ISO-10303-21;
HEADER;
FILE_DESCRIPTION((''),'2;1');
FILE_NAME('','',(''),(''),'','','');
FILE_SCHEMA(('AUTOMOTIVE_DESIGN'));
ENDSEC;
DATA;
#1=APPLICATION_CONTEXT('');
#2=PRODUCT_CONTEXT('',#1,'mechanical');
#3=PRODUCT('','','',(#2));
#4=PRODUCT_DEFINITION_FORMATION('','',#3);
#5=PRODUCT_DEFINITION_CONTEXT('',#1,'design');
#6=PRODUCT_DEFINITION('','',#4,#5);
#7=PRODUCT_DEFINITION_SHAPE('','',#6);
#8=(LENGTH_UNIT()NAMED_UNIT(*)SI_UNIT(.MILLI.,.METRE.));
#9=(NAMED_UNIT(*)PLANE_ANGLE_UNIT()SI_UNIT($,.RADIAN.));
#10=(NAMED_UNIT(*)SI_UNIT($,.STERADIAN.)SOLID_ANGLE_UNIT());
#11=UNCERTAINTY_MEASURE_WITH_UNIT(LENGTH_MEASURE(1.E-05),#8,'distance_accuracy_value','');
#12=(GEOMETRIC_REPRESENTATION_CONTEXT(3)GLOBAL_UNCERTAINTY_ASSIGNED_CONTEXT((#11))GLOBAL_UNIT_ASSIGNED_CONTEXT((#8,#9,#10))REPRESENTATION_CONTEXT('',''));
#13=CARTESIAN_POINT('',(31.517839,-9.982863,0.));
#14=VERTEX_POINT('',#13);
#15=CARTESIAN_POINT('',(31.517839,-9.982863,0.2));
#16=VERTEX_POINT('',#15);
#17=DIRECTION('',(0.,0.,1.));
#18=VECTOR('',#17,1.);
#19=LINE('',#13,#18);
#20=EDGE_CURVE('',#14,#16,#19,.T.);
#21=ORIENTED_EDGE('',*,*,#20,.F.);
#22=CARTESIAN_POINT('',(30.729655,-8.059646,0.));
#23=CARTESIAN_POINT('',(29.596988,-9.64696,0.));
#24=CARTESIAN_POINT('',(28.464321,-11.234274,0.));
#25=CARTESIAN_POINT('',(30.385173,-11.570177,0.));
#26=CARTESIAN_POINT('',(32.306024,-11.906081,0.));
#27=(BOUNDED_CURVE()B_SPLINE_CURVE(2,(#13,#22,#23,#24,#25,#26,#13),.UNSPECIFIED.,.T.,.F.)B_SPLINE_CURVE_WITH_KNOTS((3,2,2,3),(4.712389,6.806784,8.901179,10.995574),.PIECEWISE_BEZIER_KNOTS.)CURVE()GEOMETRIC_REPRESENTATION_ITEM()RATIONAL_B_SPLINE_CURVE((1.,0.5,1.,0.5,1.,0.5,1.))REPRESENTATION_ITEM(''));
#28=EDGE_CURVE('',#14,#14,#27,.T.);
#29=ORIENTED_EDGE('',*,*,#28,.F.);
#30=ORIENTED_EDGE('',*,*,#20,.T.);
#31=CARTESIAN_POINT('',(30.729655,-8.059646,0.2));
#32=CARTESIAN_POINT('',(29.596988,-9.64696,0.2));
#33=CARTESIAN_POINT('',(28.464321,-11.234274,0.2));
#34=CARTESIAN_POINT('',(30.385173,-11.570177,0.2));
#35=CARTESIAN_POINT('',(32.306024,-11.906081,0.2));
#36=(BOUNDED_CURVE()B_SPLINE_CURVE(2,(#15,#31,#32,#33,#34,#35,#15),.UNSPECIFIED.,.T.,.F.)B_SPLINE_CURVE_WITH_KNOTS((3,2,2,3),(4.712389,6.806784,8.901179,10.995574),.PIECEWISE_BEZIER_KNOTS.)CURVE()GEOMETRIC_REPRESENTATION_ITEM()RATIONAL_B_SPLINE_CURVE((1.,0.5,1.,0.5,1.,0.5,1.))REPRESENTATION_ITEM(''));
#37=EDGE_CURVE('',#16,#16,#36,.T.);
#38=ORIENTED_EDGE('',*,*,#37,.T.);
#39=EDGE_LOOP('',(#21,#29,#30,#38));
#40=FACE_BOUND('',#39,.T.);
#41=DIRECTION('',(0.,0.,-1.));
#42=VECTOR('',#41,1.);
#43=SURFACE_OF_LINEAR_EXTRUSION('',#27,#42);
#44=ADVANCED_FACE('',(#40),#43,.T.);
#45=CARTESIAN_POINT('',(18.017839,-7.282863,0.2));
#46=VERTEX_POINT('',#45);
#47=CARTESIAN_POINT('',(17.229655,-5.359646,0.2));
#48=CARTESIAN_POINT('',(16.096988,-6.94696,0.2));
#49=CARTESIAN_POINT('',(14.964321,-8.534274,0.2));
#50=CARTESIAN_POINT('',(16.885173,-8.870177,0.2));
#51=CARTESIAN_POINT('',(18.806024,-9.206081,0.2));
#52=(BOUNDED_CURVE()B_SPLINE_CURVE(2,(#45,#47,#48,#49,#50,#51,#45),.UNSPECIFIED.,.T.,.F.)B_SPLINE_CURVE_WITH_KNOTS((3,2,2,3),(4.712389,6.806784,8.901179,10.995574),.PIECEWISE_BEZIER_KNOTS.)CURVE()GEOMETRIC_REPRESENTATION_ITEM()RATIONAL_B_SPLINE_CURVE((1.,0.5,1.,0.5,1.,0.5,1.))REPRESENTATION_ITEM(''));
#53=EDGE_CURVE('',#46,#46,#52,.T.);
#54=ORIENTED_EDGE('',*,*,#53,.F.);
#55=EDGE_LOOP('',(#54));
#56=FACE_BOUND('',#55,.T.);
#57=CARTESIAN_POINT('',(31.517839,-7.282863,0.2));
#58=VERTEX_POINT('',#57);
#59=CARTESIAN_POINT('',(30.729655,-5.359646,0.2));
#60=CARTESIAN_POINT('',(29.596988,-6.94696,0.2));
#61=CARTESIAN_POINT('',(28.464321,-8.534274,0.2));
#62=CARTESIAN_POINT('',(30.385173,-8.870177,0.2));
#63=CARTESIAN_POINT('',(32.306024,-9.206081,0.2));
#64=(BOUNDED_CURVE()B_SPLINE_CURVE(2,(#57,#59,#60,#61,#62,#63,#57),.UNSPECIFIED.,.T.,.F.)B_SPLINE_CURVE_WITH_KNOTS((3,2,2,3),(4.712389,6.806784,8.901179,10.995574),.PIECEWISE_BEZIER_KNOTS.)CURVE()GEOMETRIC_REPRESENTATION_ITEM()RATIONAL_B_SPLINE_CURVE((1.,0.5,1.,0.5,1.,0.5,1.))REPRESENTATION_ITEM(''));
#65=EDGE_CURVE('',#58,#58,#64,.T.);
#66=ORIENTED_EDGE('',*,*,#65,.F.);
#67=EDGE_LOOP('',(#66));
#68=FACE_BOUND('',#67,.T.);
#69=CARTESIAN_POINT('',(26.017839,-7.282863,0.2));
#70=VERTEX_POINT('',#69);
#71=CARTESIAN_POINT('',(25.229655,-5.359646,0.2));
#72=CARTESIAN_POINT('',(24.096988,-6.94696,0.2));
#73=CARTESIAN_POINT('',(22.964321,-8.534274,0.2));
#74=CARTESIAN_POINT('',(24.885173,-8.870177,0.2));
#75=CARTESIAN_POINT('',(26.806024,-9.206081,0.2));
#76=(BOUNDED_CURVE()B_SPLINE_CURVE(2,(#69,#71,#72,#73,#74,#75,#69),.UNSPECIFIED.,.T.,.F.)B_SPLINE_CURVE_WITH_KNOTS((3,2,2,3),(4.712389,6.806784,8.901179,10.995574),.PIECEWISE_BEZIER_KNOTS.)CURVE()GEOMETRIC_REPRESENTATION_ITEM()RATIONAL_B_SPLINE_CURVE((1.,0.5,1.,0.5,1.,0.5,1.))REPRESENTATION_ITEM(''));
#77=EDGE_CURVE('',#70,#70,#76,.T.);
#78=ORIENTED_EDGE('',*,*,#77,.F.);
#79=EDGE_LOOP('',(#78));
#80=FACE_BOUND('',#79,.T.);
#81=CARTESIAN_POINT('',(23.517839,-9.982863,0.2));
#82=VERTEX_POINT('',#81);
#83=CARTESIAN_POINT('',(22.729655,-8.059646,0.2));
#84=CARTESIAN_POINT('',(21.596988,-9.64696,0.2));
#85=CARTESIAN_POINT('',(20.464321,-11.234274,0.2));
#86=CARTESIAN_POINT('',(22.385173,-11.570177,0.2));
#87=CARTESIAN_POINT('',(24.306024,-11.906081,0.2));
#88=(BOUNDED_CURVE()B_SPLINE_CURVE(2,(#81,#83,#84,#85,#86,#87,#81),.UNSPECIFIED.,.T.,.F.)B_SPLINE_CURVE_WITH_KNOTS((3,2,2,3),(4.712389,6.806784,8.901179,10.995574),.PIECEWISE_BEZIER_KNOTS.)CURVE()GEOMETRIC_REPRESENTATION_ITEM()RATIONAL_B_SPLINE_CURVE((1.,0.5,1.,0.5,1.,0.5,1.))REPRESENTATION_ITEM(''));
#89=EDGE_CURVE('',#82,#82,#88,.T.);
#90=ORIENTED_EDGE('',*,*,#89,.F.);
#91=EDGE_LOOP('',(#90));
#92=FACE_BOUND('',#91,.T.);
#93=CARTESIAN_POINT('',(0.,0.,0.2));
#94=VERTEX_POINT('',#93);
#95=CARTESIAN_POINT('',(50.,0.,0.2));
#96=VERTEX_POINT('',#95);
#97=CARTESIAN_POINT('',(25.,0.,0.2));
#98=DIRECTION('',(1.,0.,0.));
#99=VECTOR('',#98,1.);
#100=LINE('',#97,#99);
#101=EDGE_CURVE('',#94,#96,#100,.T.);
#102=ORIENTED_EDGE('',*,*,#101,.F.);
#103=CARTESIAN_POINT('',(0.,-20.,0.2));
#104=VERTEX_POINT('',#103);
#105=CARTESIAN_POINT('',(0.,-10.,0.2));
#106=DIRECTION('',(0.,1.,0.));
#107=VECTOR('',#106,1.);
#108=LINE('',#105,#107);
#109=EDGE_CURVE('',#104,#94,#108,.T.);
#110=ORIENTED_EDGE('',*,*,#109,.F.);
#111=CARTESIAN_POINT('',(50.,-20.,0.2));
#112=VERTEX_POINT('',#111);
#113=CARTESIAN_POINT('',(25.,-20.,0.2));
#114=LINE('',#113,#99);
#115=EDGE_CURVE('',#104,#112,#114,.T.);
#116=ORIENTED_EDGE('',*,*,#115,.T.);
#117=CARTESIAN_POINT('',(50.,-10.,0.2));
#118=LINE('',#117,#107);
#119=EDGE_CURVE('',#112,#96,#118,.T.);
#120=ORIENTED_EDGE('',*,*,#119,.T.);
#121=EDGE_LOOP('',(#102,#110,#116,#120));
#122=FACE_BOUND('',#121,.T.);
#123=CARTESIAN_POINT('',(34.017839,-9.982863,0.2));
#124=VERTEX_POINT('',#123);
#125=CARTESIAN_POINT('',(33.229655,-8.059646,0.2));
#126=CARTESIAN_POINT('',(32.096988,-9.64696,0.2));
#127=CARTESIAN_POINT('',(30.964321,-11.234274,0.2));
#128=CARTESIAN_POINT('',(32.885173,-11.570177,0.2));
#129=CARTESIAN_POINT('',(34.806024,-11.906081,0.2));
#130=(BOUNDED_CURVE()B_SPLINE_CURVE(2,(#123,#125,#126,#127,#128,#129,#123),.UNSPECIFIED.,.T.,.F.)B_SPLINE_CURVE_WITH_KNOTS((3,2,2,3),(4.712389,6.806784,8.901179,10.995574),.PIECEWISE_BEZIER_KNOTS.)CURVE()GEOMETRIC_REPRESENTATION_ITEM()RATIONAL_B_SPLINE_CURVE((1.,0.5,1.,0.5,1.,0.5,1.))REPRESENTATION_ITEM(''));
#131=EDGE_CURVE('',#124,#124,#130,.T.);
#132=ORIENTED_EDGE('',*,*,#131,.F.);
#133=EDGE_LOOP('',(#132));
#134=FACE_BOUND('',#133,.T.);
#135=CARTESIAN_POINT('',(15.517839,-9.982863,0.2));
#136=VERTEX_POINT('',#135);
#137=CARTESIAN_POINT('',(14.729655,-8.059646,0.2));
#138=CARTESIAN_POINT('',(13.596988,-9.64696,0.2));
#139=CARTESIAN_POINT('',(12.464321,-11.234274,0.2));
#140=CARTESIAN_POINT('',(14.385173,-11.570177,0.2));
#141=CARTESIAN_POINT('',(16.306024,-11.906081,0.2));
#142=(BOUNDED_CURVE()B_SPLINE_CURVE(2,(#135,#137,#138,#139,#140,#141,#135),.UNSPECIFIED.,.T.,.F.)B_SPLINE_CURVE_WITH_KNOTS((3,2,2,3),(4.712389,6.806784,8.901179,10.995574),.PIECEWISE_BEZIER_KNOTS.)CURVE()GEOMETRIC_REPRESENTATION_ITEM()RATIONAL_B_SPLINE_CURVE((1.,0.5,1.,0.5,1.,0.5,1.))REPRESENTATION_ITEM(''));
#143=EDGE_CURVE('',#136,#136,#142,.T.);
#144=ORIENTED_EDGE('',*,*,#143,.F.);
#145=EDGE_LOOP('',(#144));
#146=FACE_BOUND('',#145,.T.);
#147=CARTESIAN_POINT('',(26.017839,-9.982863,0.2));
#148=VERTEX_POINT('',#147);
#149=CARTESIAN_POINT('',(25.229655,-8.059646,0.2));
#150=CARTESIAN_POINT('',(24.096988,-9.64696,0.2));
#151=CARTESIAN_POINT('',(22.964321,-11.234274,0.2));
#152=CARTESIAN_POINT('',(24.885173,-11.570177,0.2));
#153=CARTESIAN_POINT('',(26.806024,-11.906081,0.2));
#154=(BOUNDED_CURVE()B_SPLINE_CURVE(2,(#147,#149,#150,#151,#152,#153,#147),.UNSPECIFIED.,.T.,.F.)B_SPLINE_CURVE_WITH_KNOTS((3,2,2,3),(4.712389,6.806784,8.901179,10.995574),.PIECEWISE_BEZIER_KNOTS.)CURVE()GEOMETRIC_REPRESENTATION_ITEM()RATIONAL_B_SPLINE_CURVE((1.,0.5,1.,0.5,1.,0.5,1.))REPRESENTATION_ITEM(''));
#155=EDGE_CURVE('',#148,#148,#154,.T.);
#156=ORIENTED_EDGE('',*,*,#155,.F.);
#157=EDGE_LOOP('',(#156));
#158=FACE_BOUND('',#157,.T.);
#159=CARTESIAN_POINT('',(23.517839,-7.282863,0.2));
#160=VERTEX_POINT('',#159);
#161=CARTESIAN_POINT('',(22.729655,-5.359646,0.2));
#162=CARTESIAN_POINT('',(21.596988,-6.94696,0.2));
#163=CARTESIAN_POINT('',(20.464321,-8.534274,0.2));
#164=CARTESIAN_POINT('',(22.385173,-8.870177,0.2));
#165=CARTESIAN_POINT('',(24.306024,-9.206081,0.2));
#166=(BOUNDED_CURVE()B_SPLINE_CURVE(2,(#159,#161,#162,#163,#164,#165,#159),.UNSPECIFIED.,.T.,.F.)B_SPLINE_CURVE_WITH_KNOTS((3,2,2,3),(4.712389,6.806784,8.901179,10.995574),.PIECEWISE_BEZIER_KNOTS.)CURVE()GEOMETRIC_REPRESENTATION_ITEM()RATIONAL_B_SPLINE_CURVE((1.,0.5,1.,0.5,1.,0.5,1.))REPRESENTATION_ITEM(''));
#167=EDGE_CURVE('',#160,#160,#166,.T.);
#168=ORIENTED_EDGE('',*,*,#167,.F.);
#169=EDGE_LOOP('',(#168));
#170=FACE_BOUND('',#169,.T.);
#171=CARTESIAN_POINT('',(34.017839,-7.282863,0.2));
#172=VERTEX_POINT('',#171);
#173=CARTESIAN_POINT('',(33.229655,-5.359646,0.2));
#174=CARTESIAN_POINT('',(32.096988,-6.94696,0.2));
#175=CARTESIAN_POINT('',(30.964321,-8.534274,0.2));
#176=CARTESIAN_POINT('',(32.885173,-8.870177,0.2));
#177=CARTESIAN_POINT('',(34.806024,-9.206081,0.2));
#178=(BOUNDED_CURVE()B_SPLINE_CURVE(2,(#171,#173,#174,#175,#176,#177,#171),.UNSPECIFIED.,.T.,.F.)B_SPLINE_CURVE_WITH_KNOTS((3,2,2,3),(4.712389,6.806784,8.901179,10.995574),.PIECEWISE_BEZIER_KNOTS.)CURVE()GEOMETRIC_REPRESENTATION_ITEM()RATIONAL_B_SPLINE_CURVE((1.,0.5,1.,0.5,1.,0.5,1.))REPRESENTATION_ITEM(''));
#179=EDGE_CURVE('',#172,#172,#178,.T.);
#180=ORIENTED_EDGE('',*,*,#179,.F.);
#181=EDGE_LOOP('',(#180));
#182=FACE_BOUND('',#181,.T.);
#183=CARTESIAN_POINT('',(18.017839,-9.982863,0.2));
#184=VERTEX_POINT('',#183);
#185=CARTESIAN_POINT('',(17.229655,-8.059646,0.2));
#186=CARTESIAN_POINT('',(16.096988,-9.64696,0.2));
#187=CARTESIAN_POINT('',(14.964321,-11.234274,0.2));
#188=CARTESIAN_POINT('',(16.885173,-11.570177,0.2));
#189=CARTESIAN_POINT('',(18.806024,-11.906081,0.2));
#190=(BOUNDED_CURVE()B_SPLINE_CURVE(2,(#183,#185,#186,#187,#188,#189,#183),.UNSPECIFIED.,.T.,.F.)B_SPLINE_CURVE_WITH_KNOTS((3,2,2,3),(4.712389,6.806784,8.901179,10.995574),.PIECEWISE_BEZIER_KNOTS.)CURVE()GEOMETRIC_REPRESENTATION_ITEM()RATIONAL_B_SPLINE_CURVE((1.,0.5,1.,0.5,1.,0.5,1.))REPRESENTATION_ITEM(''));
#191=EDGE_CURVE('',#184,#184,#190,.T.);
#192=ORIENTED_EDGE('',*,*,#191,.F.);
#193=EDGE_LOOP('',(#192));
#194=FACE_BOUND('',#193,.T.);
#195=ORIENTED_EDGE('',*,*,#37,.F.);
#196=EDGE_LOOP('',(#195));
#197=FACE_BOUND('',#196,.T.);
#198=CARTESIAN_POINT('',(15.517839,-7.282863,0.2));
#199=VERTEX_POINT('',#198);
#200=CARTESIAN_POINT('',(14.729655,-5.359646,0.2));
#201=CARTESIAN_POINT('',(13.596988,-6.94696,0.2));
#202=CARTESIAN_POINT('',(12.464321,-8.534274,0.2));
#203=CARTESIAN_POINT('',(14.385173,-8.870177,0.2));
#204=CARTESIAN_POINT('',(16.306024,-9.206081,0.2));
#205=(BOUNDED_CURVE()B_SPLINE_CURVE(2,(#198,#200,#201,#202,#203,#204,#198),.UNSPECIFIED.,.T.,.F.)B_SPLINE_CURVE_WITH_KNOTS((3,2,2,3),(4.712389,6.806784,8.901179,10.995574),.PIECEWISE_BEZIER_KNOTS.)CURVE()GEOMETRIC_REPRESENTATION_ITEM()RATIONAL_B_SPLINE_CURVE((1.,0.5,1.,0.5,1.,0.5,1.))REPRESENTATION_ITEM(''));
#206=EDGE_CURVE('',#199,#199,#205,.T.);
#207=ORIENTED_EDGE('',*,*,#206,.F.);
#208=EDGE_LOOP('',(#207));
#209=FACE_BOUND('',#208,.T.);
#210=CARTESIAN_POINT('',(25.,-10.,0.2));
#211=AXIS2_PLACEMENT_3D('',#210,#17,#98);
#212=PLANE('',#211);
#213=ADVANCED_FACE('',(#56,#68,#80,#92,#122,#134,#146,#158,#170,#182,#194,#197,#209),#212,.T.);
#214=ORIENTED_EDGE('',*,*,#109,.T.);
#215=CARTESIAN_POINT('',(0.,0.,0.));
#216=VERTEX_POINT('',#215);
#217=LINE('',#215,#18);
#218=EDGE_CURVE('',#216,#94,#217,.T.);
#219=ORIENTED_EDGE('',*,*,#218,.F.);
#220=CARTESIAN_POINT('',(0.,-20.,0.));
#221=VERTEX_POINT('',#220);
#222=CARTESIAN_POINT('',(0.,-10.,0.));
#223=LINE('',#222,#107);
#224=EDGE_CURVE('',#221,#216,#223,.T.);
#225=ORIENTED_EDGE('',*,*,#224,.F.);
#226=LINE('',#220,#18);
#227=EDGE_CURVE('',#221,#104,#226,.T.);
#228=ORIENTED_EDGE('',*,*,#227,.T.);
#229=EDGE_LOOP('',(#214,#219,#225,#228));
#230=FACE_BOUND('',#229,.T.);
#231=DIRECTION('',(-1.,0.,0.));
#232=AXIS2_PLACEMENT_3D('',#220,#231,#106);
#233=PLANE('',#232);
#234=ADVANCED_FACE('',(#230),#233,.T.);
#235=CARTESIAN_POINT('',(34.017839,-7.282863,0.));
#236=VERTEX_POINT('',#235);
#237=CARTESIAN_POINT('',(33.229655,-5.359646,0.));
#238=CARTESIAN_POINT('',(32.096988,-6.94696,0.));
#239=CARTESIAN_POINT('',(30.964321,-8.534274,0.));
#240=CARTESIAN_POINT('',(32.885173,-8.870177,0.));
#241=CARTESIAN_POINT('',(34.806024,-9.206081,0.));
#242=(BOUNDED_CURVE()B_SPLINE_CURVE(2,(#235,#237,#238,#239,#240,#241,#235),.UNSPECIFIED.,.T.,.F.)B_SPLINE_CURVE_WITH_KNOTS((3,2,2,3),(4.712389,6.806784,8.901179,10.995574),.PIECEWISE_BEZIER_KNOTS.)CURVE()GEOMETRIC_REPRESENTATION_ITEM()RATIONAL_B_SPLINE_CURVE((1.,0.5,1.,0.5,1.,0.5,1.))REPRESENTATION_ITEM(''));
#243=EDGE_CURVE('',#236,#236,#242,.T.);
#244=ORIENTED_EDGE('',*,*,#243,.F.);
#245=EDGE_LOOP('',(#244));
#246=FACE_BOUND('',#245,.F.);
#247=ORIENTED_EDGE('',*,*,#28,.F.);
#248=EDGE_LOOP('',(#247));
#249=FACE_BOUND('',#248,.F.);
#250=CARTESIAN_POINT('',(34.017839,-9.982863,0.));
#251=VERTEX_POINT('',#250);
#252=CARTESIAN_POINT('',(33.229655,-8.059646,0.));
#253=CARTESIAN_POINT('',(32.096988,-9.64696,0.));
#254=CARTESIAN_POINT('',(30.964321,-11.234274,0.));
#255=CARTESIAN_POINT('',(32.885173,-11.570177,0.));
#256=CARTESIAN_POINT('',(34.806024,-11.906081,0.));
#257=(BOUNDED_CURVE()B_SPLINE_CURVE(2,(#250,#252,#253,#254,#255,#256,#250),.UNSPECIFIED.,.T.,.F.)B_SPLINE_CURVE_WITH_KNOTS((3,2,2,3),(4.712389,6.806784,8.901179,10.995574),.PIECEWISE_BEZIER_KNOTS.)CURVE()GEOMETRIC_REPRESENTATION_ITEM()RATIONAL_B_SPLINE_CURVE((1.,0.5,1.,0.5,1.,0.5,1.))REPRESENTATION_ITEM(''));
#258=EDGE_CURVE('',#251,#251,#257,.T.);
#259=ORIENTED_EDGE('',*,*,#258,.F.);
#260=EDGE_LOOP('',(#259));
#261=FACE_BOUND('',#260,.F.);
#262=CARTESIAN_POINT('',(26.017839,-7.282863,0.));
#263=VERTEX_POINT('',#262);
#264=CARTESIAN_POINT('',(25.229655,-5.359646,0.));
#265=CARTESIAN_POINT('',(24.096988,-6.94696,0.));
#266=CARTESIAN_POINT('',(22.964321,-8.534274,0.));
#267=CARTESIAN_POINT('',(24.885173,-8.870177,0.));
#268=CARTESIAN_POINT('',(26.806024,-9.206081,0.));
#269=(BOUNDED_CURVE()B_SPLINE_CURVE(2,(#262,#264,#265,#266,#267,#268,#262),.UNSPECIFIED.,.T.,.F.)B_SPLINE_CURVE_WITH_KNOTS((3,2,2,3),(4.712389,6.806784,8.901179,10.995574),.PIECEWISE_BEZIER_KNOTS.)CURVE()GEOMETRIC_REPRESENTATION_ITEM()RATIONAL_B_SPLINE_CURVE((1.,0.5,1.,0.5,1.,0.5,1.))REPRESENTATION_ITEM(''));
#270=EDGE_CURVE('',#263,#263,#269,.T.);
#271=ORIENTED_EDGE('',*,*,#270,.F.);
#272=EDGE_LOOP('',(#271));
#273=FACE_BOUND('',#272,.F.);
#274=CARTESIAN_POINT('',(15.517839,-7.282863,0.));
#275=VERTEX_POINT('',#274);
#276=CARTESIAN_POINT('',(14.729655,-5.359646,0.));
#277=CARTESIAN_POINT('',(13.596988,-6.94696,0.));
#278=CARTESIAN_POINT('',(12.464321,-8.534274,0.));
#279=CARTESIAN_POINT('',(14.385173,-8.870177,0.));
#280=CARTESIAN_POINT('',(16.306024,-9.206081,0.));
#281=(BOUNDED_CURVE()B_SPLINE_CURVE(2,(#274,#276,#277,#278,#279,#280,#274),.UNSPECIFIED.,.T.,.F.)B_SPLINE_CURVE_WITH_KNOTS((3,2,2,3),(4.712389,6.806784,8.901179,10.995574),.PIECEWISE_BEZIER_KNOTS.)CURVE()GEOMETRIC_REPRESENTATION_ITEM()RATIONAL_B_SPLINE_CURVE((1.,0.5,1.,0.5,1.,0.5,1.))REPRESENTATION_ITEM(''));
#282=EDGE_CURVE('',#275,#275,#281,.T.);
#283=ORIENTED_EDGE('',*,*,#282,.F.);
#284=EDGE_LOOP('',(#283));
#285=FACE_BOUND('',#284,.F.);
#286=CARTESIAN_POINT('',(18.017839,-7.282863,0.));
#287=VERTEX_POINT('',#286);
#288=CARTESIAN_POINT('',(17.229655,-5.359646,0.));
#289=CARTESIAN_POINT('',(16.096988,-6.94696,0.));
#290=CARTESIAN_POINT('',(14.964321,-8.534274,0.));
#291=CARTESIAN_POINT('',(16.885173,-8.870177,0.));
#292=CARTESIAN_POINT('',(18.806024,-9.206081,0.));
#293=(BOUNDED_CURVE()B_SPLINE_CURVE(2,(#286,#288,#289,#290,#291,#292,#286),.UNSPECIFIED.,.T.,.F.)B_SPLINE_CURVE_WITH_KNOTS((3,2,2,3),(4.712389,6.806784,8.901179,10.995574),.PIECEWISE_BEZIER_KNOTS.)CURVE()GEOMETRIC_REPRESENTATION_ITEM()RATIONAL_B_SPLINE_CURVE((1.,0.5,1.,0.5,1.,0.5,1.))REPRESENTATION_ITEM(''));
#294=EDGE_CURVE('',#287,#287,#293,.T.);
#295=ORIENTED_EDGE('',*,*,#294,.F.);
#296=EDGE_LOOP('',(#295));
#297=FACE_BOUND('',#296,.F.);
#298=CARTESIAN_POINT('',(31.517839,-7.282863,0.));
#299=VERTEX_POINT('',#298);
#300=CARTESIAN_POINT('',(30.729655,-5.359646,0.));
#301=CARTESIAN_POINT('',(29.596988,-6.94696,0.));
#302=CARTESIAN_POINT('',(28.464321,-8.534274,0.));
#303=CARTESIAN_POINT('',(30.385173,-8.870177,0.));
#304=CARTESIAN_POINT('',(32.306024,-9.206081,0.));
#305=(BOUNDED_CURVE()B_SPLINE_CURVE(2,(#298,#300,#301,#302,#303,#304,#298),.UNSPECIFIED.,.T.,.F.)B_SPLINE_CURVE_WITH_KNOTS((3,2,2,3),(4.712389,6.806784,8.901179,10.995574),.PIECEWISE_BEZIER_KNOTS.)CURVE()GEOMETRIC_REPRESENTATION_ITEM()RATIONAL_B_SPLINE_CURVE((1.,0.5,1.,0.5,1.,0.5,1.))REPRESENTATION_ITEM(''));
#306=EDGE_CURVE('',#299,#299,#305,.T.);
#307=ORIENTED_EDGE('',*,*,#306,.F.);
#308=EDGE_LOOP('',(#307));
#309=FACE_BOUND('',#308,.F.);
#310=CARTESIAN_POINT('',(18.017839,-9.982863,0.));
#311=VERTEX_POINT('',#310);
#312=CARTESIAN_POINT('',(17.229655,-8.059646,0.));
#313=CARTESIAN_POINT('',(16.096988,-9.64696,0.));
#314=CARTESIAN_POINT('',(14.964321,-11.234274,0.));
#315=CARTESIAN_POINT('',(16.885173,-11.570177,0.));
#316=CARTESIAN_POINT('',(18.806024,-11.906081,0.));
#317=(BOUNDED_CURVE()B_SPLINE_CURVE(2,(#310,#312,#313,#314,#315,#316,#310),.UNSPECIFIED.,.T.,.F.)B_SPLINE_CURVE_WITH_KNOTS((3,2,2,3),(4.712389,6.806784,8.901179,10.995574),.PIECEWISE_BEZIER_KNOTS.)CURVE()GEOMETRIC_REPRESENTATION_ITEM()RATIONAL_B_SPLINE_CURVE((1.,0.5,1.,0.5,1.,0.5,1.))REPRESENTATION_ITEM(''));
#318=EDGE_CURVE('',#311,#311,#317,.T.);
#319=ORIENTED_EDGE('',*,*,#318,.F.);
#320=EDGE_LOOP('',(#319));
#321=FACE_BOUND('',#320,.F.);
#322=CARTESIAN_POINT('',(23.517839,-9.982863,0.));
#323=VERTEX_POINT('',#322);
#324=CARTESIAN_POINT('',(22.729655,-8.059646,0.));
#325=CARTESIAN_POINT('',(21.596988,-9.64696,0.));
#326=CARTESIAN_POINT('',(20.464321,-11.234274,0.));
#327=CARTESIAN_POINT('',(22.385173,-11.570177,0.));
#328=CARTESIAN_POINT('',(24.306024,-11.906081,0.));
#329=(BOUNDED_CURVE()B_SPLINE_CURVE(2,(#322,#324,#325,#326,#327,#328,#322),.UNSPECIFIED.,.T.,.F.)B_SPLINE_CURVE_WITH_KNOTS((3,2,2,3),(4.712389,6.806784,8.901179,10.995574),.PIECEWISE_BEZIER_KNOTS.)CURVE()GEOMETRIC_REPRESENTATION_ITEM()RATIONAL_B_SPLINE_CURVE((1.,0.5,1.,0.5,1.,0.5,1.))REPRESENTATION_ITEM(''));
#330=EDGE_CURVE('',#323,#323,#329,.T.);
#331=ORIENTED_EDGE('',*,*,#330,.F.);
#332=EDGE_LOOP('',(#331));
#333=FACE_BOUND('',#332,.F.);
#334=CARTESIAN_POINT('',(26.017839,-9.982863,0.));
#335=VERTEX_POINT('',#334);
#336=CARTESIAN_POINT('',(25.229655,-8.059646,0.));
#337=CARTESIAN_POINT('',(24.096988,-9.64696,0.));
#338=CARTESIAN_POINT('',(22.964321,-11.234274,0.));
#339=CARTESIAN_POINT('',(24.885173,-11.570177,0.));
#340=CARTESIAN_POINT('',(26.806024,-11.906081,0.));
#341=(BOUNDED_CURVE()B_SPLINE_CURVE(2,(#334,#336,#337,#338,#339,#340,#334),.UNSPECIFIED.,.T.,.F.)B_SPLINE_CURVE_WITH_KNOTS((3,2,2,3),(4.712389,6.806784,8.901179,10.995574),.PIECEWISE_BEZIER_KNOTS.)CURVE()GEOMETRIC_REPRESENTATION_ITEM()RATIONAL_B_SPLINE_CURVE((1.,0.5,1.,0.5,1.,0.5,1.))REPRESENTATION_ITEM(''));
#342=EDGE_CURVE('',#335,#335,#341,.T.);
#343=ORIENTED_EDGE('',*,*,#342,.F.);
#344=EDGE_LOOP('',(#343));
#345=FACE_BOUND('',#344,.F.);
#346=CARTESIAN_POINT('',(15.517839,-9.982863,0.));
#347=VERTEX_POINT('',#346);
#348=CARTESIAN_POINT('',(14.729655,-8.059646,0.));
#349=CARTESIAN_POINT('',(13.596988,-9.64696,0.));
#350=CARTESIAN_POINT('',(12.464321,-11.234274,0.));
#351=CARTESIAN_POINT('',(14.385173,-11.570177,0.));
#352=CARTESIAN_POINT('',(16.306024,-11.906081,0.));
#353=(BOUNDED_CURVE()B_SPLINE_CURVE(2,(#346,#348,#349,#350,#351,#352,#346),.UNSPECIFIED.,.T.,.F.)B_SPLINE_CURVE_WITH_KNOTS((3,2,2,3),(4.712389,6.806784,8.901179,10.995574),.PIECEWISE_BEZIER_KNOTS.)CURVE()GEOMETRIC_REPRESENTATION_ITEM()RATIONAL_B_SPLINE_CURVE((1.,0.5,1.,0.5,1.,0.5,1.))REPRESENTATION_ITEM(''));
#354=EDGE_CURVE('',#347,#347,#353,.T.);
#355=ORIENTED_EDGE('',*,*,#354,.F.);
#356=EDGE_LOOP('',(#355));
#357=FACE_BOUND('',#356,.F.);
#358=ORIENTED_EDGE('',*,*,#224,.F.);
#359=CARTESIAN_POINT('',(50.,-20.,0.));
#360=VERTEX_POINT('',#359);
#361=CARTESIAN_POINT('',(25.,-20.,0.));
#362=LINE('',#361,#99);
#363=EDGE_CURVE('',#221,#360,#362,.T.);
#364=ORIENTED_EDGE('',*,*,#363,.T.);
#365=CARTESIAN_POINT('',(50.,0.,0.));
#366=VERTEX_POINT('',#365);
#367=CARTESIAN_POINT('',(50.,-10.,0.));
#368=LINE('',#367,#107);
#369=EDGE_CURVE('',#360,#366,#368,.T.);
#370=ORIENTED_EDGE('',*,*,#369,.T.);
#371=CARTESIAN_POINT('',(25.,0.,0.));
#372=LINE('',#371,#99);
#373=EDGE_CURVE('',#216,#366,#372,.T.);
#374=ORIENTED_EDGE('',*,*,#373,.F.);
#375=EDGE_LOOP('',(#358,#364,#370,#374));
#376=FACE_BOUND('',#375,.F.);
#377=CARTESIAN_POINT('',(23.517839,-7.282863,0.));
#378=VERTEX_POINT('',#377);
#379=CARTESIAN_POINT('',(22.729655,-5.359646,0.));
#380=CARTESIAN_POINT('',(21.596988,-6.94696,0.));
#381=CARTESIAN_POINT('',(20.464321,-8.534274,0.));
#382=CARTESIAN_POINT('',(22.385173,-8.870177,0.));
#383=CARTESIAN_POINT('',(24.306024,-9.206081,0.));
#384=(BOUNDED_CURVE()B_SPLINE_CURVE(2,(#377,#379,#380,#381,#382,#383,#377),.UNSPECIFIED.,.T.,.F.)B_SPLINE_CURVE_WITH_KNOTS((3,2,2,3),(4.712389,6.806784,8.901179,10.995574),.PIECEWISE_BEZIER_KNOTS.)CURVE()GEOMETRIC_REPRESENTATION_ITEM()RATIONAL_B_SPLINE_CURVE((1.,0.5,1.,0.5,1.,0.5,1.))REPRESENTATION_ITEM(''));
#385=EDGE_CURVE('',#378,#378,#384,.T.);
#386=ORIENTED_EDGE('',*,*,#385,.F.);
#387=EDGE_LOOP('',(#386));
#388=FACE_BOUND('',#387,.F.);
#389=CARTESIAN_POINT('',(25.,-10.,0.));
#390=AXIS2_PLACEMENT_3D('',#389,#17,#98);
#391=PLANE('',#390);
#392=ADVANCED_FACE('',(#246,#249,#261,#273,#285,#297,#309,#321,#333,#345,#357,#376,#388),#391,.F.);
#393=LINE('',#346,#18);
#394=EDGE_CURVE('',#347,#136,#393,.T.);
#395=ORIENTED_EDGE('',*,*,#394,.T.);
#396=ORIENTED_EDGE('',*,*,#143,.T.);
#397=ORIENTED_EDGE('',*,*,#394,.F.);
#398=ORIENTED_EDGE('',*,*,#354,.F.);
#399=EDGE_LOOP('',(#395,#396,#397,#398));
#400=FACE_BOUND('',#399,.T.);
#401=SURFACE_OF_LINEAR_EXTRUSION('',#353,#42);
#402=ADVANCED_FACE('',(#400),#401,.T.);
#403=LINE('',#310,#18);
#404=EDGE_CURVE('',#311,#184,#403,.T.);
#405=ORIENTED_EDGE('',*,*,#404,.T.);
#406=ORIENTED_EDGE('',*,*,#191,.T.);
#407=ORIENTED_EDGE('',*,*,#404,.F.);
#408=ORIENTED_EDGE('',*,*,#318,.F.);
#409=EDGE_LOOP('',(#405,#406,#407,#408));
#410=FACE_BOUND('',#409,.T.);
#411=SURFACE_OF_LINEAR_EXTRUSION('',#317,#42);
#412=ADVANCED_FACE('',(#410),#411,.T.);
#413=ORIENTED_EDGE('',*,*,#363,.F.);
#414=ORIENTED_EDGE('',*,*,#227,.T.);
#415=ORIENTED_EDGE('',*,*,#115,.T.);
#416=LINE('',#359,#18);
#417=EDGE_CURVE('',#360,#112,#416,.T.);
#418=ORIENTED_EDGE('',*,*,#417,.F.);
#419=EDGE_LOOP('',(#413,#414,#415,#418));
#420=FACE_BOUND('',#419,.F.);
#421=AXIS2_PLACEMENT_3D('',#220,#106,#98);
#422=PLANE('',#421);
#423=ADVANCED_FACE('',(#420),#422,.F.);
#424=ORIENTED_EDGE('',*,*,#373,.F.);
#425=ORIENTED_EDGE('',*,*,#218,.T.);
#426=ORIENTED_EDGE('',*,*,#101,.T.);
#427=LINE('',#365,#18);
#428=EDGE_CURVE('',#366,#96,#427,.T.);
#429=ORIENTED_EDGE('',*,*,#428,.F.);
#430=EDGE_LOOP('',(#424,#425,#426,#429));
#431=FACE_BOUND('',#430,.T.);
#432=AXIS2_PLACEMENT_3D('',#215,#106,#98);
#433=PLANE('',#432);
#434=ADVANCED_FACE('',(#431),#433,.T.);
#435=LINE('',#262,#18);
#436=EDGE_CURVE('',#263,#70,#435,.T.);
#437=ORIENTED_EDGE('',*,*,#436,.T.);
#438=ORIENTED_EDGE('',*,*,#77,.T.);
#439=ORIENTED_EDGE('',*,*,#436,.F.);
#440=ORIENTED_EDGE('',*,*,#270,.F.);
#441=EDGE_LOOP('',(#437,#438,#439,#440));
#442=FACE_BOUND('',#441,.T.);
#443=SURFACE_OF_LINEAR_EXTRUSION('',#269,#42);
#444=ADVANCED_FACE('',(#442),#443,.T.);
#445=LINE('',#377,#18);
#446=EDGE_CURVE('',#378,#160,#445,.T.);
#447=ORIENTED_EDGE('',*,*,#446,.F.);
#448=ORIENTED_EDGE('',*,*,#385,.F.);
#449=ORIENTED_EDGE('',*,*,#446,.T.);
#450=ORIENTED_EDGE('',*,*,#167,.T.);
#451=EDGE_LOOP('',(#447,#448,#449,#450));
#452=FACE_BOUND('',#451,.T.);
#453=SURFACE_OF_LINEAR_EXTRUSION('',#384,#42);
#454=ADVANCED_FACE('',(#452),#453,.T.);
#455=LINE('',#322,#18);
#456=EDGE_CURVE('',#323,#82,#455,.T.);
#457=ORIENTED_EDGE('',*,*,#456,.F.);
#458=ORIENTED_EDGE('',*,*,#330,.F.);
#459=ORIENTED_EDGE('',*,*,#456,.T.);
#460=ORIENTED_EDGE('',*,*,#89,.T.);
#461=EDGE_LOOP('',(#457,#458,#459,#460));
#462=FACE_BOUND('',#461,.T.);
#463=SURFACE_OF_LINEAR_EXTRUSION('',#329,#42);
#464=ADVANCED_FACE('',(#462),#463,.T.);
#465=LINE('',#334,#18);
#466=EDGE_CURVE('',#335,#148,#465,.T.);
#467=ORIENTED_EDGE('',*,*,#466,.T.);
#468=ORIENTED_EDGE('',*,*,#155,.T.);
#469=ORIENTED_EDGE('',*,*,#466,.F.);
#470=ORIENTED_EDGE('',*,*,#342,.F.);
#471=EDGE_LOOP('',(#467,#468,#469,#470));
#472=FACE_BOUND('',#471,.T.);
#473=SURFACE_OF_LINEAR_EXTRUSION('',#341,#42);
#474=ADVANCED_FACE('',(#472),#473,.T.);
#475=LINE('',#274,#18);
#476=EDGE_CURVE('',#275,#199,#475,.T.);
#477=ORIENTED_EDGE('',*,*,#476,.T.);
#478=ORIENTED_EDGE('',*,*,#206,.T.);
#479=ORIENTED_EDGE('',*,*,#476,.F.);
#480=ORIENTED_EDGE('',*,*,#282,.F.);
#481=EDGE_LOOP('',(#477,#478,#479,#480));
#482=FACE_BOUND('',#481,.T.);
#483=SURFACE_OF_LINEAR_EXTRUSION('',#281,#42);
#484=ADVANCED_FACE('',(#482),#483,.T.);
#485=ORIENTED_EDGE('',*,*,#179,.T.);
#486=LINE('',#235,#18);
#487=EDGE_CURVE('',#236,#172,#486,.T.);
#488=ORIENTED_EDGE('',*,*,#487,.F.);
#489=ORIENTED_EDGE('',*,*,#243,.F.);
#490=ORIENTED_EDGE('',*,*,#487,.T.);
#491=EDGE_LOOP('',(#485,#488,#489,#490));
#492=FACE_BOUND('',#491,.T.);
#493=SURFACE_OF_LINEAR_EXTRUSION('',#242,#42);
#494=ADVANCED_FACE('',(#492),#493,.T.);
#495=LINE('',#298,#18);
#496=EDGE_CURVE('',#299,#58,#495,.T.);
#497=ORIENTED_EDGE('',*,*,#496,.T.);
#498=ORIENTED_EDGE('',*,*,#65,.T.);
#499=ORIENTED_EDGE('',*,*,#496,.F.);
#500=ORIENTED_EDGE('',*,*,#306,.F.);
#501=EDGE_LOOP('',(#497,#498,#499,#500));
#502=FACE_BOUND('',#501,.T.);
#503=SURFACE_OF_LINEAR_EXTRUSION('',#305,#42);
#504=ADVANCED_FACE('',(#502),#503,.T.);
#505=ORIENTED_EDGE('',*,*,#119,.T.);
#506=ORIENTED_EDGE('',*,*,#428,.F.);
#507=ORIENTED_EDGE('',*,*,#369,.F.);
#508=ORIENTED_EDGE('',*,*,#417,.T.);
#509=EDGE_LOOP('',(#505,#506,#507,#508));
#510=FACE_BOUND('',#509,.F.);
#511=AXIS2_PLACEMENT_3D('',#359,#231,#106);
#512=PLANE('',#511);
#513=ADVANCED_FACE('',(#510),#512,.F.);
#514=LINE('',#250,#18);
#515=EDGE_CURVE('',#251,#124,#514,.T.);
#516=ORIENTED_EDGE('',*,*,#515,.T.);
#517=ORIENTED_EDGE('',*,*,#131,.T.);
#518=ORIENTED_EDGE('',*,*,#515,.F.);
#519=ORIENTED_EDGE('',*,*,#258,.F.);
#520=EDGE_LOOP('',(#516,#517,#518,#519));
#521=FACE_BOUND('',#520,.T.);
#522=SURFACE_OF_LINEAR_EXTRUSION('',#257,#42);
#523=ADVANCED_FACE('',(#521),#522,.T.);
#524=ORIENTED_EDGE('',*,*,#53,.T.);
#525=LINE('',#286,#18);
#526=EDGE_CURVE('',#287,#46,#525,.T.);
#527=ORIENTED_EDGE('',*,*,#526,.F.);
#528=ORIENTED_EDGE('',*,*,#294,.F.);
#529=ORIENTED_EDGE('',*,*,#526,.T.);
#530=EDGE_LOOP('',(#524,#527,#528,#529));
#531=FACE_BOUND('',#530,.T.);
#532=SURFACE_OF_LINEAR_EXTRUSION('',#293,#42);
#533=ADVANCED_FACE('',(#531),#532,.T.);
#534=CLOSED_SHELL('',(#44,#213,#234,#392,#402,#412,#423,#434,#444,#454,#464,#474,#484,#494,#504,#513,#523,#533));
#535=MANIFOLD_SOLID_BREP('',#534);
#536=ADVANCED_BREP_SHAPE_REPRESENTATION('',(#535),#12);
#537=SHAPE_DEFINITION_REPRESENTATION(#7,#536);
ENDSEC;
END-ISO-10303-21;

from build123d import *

# Parameters (mm, degrees)
F0_W     = 50
F0_H     = 20
F1_DEPTH = 0.2


with BuildPart() as f1:
    # F0 (on Top) → F1 (new body)
    with BuildSketch(Plane.XY):
        with Locations((25, -10)):
            Rectangle(F0_W, F0_H)
        with BuildLine():
            add(Edge.make_bspline(
                [(15.517839, -9.982863), (14.729655, -8.059646), (13.596988, -9.64696), (12.464321, -11.234274), (14.385173, -11.570177), (16.306024, -11.906081), (15.517839, -9.982863)],
                knots=[4.712389, 4.712389, 4.712389, 6.806784, 6.806784, 8.901179, 8.901179, 10.995574, 10.995574, 10.995574], degree=2, weights=[1, 0.5, 1, 0.5, 1, 0.5, 1]))
        make_face(mode=Mode.SUBTRACT)
        with BuildLine():
            add(Edge.make_bspline(
                [(18.017839, -9.982863), (17.229655, -8.059646), (16.096988, -9.64696), (14.964321, -11.234274), (16.885173, -11.570177), (18.806024, -11.906081), (18.017839, -9.982863)],
                knots=[4.712389, 4.712389, 4.712389, 6.806784, 6.806784, 8.901179, 8.901179, 10.995574, 10.995574, 10.995574], degree=2, weights=[1, 0.5, 1, 0.5, 1, 0.5, 1]))
        make_face(mode=Mode.SUBTRACT)
        with BuildLine():
            add(Edge.make_bspline(
                [(23.517839, -9.982863), (22.729655, -8.059646), (21.596988, -9.64696), (20.464321, -11.234274), (22.385173, -11.570177), (24.306024, -11.906081), (23.517839, -9.982863)],
                knots=[4.712389, 4.712389, 4.712389, 6.806784, 6.806784, 8.901179, 8.901179, 10.995574, 10.995574, 10.995574], degree=2, weights=[1, 0.5, 1, 0.5, 1, 0.5, 1]))
        make_face(mode=Mode.SUBTRACT)
        with BuildLine():
            add(Edge.make_bspline(
                [(26.017839, -9.982863), (25.229655, -8.059646), (24.096988, -9.64696), (22.964321, -11.234274), (24.885173, -11.570177), (26.806024, -11.906081), (26.017839, -9.982863)],
                knots=[4.712389, 4.712389, 4.712389, 6.806784, 6.806784, 8.901179, 8.901179, 10.995574, 10.995574, 10.995574], degree=2, weights=[1, 0.5, 1, 0.5, 1, 0.5, 1]))
        make_face(mode=Mode.SUBTRACT)
        with BuildLine():
            add(Edge.make_bspline(
                [(31.517839, -9.982863), (30.729655, -8.059646), (29.596988, -9.64696), (28.464321, -11.234274), (30.385173, -11.570177), (32.306024, -11.906081), (31.517839, -9.982863)],
                knots=[4.712389, 4.712389, 4.712389, 6.806784, 6.806784, 8.901179, 8.901179, 10.995574, 10.995574, 10.995574], degree=2, weights=[1, 0.5, 1, 0.5, 1, 0.5, 1]))
        make_face(mode=Mode.SUBTRACT)
        with BuildLine():
            add(Edge.make_bspline(
                [(34.017839, -9.982863), (33.229655, -8.059646), (32.096988, -9.64696), (30.964321, -11.234274), (32.885173, -11.570177), (34.806024, -11.906081), (34.017839, -9.982863)],
                knots=[4.712389, 4.712389, 4.712389, 6.806784, 6.806784, 8.901179, 8.901179, 10.995574, 10.995574, 10.995574], degree=2, weights=[1, 0.5, 1, 0.5, 1, 0.5, 1]))
        make_face(mode=Mode.SUBTRACT)
        with BuildLine():
            add(Edge.make_bspline(
                [(15.517839, -7.282863), (14.729655, -5.359646), (13.596988, -6.94696), (12.464321, -8.534274), (14.385173, -8.870177), (16.306024, -9.206081), (15.517839, -7.282863)],
                knots=[4.712389, 4.712389, 4.712389, 6.806784, 6.806784, 8.901179, 8.901179, 10.995574, 10.995574, 10.995574], degree=2, weights=[1, 0.5, 1, 0.5, 1, 0.5, 1]))
        make_face(mode=Mode.SUBTRACT)
        with BuildLine():
            add(Edge.make_bspline(
                [(18.017839, -7.282863), (17.229655, -5.359646), (16.096988, -6.94696), (14.964321, -8.534274), (16.885173, -8.870177), (18.806024, -9.206081), (18.017839, -7.282863)],
                knots=[4.712389, 4.712389, 4.712389, 6.806784, 6.806784, 8.901179, 8.901179, 10.995574, 10.995574, 10.995574], degree=2, weights=[1, 0.5, 1, 0.5, 1, 0.5, 1]))
        make_face(mode=Mode.SUBTRACT)
        with BuildLine():
            add(Edge.make_bspline(
                [(23.517839, -7.282863), (22.729655, -5.359646), (21.596988, -6.94696), (20.464321, -8.534274), (22.385173, -8.870177), (24.306024, -9.206081), (23.517839, -7.282863)],
                knots=[4.712389, 4.712389, 4.712389, 6.806784, 6.806784, 8.901179, 8.901179, 10.995574, 10.995574, 10.995574], degree=2, weights=[1, 0.5, 1, 0.5, 1, 0.5, 1]))
        make_face(mode=Mode.SUBTRACT)
        with BuildLine():
            add(Edge.make_bspline(
                [(26.017839, -7.282863), (25.229655, -5.359646), (24.096988, -6.94696), (22.964321, -8.534274), (24.885173, -8.870177), (26.806024, -9.206081), (26.017839, -7.282863)],
                knots=[4.712389, 4.712389, 4.712389, 6.806784, 6.806784, 8.901179, 8.901179, 10.995574, 10.995574, 10.995574], degree=2, weights=[1, 0.5, 1, 0.5, 1, 0.5, 1]))
        make_face(mode=Mode.SUBTRACT)
        with BuildLine():
            add(Edge.make_bspline(
                [(31.517839, -7.282863), (30.729655, -5.359646), (29.596988, -6.94696), (28.464321, -8.534274), (30.385173, -8.870177), (32.306024, -9.206081), (31.517839, -7.282863)],
                knots=[4.712389, 4.712389, 4.712389, 6.806784, 6.806784, 8.901179, 8.901179, 10.995574, 10.995574, 10.995574], degree=2, weights=[1, 0.5, 1, 0.5, 1, 0.5, 1]))
        make_face(mode=Mode.SUBTRACT)
        with BuildLine():
            add(Edge.make_bspline(
                [(34.017839, -7.282863), (33.229655, -5.359646), (32.096988, -6.94696), (30.964321, -8.534274), (32.885173, -8.870177), (34.806024, -9.206081), (34.017839, -7.282863)],
                knots=[4.712389, 4.712389, 4.712389, 6.806784, 6.806784, 8.901179, 8.901179, 10.995574, 10.995574, 10.995574], degree=2, weights=[1, 0.5, 1, 0.5, 1, 0.5, 1]))
        make_face(mode=Mode.SUBTRACT)
    extrude(amount=F1_DEPTH)


solid = f1.part
